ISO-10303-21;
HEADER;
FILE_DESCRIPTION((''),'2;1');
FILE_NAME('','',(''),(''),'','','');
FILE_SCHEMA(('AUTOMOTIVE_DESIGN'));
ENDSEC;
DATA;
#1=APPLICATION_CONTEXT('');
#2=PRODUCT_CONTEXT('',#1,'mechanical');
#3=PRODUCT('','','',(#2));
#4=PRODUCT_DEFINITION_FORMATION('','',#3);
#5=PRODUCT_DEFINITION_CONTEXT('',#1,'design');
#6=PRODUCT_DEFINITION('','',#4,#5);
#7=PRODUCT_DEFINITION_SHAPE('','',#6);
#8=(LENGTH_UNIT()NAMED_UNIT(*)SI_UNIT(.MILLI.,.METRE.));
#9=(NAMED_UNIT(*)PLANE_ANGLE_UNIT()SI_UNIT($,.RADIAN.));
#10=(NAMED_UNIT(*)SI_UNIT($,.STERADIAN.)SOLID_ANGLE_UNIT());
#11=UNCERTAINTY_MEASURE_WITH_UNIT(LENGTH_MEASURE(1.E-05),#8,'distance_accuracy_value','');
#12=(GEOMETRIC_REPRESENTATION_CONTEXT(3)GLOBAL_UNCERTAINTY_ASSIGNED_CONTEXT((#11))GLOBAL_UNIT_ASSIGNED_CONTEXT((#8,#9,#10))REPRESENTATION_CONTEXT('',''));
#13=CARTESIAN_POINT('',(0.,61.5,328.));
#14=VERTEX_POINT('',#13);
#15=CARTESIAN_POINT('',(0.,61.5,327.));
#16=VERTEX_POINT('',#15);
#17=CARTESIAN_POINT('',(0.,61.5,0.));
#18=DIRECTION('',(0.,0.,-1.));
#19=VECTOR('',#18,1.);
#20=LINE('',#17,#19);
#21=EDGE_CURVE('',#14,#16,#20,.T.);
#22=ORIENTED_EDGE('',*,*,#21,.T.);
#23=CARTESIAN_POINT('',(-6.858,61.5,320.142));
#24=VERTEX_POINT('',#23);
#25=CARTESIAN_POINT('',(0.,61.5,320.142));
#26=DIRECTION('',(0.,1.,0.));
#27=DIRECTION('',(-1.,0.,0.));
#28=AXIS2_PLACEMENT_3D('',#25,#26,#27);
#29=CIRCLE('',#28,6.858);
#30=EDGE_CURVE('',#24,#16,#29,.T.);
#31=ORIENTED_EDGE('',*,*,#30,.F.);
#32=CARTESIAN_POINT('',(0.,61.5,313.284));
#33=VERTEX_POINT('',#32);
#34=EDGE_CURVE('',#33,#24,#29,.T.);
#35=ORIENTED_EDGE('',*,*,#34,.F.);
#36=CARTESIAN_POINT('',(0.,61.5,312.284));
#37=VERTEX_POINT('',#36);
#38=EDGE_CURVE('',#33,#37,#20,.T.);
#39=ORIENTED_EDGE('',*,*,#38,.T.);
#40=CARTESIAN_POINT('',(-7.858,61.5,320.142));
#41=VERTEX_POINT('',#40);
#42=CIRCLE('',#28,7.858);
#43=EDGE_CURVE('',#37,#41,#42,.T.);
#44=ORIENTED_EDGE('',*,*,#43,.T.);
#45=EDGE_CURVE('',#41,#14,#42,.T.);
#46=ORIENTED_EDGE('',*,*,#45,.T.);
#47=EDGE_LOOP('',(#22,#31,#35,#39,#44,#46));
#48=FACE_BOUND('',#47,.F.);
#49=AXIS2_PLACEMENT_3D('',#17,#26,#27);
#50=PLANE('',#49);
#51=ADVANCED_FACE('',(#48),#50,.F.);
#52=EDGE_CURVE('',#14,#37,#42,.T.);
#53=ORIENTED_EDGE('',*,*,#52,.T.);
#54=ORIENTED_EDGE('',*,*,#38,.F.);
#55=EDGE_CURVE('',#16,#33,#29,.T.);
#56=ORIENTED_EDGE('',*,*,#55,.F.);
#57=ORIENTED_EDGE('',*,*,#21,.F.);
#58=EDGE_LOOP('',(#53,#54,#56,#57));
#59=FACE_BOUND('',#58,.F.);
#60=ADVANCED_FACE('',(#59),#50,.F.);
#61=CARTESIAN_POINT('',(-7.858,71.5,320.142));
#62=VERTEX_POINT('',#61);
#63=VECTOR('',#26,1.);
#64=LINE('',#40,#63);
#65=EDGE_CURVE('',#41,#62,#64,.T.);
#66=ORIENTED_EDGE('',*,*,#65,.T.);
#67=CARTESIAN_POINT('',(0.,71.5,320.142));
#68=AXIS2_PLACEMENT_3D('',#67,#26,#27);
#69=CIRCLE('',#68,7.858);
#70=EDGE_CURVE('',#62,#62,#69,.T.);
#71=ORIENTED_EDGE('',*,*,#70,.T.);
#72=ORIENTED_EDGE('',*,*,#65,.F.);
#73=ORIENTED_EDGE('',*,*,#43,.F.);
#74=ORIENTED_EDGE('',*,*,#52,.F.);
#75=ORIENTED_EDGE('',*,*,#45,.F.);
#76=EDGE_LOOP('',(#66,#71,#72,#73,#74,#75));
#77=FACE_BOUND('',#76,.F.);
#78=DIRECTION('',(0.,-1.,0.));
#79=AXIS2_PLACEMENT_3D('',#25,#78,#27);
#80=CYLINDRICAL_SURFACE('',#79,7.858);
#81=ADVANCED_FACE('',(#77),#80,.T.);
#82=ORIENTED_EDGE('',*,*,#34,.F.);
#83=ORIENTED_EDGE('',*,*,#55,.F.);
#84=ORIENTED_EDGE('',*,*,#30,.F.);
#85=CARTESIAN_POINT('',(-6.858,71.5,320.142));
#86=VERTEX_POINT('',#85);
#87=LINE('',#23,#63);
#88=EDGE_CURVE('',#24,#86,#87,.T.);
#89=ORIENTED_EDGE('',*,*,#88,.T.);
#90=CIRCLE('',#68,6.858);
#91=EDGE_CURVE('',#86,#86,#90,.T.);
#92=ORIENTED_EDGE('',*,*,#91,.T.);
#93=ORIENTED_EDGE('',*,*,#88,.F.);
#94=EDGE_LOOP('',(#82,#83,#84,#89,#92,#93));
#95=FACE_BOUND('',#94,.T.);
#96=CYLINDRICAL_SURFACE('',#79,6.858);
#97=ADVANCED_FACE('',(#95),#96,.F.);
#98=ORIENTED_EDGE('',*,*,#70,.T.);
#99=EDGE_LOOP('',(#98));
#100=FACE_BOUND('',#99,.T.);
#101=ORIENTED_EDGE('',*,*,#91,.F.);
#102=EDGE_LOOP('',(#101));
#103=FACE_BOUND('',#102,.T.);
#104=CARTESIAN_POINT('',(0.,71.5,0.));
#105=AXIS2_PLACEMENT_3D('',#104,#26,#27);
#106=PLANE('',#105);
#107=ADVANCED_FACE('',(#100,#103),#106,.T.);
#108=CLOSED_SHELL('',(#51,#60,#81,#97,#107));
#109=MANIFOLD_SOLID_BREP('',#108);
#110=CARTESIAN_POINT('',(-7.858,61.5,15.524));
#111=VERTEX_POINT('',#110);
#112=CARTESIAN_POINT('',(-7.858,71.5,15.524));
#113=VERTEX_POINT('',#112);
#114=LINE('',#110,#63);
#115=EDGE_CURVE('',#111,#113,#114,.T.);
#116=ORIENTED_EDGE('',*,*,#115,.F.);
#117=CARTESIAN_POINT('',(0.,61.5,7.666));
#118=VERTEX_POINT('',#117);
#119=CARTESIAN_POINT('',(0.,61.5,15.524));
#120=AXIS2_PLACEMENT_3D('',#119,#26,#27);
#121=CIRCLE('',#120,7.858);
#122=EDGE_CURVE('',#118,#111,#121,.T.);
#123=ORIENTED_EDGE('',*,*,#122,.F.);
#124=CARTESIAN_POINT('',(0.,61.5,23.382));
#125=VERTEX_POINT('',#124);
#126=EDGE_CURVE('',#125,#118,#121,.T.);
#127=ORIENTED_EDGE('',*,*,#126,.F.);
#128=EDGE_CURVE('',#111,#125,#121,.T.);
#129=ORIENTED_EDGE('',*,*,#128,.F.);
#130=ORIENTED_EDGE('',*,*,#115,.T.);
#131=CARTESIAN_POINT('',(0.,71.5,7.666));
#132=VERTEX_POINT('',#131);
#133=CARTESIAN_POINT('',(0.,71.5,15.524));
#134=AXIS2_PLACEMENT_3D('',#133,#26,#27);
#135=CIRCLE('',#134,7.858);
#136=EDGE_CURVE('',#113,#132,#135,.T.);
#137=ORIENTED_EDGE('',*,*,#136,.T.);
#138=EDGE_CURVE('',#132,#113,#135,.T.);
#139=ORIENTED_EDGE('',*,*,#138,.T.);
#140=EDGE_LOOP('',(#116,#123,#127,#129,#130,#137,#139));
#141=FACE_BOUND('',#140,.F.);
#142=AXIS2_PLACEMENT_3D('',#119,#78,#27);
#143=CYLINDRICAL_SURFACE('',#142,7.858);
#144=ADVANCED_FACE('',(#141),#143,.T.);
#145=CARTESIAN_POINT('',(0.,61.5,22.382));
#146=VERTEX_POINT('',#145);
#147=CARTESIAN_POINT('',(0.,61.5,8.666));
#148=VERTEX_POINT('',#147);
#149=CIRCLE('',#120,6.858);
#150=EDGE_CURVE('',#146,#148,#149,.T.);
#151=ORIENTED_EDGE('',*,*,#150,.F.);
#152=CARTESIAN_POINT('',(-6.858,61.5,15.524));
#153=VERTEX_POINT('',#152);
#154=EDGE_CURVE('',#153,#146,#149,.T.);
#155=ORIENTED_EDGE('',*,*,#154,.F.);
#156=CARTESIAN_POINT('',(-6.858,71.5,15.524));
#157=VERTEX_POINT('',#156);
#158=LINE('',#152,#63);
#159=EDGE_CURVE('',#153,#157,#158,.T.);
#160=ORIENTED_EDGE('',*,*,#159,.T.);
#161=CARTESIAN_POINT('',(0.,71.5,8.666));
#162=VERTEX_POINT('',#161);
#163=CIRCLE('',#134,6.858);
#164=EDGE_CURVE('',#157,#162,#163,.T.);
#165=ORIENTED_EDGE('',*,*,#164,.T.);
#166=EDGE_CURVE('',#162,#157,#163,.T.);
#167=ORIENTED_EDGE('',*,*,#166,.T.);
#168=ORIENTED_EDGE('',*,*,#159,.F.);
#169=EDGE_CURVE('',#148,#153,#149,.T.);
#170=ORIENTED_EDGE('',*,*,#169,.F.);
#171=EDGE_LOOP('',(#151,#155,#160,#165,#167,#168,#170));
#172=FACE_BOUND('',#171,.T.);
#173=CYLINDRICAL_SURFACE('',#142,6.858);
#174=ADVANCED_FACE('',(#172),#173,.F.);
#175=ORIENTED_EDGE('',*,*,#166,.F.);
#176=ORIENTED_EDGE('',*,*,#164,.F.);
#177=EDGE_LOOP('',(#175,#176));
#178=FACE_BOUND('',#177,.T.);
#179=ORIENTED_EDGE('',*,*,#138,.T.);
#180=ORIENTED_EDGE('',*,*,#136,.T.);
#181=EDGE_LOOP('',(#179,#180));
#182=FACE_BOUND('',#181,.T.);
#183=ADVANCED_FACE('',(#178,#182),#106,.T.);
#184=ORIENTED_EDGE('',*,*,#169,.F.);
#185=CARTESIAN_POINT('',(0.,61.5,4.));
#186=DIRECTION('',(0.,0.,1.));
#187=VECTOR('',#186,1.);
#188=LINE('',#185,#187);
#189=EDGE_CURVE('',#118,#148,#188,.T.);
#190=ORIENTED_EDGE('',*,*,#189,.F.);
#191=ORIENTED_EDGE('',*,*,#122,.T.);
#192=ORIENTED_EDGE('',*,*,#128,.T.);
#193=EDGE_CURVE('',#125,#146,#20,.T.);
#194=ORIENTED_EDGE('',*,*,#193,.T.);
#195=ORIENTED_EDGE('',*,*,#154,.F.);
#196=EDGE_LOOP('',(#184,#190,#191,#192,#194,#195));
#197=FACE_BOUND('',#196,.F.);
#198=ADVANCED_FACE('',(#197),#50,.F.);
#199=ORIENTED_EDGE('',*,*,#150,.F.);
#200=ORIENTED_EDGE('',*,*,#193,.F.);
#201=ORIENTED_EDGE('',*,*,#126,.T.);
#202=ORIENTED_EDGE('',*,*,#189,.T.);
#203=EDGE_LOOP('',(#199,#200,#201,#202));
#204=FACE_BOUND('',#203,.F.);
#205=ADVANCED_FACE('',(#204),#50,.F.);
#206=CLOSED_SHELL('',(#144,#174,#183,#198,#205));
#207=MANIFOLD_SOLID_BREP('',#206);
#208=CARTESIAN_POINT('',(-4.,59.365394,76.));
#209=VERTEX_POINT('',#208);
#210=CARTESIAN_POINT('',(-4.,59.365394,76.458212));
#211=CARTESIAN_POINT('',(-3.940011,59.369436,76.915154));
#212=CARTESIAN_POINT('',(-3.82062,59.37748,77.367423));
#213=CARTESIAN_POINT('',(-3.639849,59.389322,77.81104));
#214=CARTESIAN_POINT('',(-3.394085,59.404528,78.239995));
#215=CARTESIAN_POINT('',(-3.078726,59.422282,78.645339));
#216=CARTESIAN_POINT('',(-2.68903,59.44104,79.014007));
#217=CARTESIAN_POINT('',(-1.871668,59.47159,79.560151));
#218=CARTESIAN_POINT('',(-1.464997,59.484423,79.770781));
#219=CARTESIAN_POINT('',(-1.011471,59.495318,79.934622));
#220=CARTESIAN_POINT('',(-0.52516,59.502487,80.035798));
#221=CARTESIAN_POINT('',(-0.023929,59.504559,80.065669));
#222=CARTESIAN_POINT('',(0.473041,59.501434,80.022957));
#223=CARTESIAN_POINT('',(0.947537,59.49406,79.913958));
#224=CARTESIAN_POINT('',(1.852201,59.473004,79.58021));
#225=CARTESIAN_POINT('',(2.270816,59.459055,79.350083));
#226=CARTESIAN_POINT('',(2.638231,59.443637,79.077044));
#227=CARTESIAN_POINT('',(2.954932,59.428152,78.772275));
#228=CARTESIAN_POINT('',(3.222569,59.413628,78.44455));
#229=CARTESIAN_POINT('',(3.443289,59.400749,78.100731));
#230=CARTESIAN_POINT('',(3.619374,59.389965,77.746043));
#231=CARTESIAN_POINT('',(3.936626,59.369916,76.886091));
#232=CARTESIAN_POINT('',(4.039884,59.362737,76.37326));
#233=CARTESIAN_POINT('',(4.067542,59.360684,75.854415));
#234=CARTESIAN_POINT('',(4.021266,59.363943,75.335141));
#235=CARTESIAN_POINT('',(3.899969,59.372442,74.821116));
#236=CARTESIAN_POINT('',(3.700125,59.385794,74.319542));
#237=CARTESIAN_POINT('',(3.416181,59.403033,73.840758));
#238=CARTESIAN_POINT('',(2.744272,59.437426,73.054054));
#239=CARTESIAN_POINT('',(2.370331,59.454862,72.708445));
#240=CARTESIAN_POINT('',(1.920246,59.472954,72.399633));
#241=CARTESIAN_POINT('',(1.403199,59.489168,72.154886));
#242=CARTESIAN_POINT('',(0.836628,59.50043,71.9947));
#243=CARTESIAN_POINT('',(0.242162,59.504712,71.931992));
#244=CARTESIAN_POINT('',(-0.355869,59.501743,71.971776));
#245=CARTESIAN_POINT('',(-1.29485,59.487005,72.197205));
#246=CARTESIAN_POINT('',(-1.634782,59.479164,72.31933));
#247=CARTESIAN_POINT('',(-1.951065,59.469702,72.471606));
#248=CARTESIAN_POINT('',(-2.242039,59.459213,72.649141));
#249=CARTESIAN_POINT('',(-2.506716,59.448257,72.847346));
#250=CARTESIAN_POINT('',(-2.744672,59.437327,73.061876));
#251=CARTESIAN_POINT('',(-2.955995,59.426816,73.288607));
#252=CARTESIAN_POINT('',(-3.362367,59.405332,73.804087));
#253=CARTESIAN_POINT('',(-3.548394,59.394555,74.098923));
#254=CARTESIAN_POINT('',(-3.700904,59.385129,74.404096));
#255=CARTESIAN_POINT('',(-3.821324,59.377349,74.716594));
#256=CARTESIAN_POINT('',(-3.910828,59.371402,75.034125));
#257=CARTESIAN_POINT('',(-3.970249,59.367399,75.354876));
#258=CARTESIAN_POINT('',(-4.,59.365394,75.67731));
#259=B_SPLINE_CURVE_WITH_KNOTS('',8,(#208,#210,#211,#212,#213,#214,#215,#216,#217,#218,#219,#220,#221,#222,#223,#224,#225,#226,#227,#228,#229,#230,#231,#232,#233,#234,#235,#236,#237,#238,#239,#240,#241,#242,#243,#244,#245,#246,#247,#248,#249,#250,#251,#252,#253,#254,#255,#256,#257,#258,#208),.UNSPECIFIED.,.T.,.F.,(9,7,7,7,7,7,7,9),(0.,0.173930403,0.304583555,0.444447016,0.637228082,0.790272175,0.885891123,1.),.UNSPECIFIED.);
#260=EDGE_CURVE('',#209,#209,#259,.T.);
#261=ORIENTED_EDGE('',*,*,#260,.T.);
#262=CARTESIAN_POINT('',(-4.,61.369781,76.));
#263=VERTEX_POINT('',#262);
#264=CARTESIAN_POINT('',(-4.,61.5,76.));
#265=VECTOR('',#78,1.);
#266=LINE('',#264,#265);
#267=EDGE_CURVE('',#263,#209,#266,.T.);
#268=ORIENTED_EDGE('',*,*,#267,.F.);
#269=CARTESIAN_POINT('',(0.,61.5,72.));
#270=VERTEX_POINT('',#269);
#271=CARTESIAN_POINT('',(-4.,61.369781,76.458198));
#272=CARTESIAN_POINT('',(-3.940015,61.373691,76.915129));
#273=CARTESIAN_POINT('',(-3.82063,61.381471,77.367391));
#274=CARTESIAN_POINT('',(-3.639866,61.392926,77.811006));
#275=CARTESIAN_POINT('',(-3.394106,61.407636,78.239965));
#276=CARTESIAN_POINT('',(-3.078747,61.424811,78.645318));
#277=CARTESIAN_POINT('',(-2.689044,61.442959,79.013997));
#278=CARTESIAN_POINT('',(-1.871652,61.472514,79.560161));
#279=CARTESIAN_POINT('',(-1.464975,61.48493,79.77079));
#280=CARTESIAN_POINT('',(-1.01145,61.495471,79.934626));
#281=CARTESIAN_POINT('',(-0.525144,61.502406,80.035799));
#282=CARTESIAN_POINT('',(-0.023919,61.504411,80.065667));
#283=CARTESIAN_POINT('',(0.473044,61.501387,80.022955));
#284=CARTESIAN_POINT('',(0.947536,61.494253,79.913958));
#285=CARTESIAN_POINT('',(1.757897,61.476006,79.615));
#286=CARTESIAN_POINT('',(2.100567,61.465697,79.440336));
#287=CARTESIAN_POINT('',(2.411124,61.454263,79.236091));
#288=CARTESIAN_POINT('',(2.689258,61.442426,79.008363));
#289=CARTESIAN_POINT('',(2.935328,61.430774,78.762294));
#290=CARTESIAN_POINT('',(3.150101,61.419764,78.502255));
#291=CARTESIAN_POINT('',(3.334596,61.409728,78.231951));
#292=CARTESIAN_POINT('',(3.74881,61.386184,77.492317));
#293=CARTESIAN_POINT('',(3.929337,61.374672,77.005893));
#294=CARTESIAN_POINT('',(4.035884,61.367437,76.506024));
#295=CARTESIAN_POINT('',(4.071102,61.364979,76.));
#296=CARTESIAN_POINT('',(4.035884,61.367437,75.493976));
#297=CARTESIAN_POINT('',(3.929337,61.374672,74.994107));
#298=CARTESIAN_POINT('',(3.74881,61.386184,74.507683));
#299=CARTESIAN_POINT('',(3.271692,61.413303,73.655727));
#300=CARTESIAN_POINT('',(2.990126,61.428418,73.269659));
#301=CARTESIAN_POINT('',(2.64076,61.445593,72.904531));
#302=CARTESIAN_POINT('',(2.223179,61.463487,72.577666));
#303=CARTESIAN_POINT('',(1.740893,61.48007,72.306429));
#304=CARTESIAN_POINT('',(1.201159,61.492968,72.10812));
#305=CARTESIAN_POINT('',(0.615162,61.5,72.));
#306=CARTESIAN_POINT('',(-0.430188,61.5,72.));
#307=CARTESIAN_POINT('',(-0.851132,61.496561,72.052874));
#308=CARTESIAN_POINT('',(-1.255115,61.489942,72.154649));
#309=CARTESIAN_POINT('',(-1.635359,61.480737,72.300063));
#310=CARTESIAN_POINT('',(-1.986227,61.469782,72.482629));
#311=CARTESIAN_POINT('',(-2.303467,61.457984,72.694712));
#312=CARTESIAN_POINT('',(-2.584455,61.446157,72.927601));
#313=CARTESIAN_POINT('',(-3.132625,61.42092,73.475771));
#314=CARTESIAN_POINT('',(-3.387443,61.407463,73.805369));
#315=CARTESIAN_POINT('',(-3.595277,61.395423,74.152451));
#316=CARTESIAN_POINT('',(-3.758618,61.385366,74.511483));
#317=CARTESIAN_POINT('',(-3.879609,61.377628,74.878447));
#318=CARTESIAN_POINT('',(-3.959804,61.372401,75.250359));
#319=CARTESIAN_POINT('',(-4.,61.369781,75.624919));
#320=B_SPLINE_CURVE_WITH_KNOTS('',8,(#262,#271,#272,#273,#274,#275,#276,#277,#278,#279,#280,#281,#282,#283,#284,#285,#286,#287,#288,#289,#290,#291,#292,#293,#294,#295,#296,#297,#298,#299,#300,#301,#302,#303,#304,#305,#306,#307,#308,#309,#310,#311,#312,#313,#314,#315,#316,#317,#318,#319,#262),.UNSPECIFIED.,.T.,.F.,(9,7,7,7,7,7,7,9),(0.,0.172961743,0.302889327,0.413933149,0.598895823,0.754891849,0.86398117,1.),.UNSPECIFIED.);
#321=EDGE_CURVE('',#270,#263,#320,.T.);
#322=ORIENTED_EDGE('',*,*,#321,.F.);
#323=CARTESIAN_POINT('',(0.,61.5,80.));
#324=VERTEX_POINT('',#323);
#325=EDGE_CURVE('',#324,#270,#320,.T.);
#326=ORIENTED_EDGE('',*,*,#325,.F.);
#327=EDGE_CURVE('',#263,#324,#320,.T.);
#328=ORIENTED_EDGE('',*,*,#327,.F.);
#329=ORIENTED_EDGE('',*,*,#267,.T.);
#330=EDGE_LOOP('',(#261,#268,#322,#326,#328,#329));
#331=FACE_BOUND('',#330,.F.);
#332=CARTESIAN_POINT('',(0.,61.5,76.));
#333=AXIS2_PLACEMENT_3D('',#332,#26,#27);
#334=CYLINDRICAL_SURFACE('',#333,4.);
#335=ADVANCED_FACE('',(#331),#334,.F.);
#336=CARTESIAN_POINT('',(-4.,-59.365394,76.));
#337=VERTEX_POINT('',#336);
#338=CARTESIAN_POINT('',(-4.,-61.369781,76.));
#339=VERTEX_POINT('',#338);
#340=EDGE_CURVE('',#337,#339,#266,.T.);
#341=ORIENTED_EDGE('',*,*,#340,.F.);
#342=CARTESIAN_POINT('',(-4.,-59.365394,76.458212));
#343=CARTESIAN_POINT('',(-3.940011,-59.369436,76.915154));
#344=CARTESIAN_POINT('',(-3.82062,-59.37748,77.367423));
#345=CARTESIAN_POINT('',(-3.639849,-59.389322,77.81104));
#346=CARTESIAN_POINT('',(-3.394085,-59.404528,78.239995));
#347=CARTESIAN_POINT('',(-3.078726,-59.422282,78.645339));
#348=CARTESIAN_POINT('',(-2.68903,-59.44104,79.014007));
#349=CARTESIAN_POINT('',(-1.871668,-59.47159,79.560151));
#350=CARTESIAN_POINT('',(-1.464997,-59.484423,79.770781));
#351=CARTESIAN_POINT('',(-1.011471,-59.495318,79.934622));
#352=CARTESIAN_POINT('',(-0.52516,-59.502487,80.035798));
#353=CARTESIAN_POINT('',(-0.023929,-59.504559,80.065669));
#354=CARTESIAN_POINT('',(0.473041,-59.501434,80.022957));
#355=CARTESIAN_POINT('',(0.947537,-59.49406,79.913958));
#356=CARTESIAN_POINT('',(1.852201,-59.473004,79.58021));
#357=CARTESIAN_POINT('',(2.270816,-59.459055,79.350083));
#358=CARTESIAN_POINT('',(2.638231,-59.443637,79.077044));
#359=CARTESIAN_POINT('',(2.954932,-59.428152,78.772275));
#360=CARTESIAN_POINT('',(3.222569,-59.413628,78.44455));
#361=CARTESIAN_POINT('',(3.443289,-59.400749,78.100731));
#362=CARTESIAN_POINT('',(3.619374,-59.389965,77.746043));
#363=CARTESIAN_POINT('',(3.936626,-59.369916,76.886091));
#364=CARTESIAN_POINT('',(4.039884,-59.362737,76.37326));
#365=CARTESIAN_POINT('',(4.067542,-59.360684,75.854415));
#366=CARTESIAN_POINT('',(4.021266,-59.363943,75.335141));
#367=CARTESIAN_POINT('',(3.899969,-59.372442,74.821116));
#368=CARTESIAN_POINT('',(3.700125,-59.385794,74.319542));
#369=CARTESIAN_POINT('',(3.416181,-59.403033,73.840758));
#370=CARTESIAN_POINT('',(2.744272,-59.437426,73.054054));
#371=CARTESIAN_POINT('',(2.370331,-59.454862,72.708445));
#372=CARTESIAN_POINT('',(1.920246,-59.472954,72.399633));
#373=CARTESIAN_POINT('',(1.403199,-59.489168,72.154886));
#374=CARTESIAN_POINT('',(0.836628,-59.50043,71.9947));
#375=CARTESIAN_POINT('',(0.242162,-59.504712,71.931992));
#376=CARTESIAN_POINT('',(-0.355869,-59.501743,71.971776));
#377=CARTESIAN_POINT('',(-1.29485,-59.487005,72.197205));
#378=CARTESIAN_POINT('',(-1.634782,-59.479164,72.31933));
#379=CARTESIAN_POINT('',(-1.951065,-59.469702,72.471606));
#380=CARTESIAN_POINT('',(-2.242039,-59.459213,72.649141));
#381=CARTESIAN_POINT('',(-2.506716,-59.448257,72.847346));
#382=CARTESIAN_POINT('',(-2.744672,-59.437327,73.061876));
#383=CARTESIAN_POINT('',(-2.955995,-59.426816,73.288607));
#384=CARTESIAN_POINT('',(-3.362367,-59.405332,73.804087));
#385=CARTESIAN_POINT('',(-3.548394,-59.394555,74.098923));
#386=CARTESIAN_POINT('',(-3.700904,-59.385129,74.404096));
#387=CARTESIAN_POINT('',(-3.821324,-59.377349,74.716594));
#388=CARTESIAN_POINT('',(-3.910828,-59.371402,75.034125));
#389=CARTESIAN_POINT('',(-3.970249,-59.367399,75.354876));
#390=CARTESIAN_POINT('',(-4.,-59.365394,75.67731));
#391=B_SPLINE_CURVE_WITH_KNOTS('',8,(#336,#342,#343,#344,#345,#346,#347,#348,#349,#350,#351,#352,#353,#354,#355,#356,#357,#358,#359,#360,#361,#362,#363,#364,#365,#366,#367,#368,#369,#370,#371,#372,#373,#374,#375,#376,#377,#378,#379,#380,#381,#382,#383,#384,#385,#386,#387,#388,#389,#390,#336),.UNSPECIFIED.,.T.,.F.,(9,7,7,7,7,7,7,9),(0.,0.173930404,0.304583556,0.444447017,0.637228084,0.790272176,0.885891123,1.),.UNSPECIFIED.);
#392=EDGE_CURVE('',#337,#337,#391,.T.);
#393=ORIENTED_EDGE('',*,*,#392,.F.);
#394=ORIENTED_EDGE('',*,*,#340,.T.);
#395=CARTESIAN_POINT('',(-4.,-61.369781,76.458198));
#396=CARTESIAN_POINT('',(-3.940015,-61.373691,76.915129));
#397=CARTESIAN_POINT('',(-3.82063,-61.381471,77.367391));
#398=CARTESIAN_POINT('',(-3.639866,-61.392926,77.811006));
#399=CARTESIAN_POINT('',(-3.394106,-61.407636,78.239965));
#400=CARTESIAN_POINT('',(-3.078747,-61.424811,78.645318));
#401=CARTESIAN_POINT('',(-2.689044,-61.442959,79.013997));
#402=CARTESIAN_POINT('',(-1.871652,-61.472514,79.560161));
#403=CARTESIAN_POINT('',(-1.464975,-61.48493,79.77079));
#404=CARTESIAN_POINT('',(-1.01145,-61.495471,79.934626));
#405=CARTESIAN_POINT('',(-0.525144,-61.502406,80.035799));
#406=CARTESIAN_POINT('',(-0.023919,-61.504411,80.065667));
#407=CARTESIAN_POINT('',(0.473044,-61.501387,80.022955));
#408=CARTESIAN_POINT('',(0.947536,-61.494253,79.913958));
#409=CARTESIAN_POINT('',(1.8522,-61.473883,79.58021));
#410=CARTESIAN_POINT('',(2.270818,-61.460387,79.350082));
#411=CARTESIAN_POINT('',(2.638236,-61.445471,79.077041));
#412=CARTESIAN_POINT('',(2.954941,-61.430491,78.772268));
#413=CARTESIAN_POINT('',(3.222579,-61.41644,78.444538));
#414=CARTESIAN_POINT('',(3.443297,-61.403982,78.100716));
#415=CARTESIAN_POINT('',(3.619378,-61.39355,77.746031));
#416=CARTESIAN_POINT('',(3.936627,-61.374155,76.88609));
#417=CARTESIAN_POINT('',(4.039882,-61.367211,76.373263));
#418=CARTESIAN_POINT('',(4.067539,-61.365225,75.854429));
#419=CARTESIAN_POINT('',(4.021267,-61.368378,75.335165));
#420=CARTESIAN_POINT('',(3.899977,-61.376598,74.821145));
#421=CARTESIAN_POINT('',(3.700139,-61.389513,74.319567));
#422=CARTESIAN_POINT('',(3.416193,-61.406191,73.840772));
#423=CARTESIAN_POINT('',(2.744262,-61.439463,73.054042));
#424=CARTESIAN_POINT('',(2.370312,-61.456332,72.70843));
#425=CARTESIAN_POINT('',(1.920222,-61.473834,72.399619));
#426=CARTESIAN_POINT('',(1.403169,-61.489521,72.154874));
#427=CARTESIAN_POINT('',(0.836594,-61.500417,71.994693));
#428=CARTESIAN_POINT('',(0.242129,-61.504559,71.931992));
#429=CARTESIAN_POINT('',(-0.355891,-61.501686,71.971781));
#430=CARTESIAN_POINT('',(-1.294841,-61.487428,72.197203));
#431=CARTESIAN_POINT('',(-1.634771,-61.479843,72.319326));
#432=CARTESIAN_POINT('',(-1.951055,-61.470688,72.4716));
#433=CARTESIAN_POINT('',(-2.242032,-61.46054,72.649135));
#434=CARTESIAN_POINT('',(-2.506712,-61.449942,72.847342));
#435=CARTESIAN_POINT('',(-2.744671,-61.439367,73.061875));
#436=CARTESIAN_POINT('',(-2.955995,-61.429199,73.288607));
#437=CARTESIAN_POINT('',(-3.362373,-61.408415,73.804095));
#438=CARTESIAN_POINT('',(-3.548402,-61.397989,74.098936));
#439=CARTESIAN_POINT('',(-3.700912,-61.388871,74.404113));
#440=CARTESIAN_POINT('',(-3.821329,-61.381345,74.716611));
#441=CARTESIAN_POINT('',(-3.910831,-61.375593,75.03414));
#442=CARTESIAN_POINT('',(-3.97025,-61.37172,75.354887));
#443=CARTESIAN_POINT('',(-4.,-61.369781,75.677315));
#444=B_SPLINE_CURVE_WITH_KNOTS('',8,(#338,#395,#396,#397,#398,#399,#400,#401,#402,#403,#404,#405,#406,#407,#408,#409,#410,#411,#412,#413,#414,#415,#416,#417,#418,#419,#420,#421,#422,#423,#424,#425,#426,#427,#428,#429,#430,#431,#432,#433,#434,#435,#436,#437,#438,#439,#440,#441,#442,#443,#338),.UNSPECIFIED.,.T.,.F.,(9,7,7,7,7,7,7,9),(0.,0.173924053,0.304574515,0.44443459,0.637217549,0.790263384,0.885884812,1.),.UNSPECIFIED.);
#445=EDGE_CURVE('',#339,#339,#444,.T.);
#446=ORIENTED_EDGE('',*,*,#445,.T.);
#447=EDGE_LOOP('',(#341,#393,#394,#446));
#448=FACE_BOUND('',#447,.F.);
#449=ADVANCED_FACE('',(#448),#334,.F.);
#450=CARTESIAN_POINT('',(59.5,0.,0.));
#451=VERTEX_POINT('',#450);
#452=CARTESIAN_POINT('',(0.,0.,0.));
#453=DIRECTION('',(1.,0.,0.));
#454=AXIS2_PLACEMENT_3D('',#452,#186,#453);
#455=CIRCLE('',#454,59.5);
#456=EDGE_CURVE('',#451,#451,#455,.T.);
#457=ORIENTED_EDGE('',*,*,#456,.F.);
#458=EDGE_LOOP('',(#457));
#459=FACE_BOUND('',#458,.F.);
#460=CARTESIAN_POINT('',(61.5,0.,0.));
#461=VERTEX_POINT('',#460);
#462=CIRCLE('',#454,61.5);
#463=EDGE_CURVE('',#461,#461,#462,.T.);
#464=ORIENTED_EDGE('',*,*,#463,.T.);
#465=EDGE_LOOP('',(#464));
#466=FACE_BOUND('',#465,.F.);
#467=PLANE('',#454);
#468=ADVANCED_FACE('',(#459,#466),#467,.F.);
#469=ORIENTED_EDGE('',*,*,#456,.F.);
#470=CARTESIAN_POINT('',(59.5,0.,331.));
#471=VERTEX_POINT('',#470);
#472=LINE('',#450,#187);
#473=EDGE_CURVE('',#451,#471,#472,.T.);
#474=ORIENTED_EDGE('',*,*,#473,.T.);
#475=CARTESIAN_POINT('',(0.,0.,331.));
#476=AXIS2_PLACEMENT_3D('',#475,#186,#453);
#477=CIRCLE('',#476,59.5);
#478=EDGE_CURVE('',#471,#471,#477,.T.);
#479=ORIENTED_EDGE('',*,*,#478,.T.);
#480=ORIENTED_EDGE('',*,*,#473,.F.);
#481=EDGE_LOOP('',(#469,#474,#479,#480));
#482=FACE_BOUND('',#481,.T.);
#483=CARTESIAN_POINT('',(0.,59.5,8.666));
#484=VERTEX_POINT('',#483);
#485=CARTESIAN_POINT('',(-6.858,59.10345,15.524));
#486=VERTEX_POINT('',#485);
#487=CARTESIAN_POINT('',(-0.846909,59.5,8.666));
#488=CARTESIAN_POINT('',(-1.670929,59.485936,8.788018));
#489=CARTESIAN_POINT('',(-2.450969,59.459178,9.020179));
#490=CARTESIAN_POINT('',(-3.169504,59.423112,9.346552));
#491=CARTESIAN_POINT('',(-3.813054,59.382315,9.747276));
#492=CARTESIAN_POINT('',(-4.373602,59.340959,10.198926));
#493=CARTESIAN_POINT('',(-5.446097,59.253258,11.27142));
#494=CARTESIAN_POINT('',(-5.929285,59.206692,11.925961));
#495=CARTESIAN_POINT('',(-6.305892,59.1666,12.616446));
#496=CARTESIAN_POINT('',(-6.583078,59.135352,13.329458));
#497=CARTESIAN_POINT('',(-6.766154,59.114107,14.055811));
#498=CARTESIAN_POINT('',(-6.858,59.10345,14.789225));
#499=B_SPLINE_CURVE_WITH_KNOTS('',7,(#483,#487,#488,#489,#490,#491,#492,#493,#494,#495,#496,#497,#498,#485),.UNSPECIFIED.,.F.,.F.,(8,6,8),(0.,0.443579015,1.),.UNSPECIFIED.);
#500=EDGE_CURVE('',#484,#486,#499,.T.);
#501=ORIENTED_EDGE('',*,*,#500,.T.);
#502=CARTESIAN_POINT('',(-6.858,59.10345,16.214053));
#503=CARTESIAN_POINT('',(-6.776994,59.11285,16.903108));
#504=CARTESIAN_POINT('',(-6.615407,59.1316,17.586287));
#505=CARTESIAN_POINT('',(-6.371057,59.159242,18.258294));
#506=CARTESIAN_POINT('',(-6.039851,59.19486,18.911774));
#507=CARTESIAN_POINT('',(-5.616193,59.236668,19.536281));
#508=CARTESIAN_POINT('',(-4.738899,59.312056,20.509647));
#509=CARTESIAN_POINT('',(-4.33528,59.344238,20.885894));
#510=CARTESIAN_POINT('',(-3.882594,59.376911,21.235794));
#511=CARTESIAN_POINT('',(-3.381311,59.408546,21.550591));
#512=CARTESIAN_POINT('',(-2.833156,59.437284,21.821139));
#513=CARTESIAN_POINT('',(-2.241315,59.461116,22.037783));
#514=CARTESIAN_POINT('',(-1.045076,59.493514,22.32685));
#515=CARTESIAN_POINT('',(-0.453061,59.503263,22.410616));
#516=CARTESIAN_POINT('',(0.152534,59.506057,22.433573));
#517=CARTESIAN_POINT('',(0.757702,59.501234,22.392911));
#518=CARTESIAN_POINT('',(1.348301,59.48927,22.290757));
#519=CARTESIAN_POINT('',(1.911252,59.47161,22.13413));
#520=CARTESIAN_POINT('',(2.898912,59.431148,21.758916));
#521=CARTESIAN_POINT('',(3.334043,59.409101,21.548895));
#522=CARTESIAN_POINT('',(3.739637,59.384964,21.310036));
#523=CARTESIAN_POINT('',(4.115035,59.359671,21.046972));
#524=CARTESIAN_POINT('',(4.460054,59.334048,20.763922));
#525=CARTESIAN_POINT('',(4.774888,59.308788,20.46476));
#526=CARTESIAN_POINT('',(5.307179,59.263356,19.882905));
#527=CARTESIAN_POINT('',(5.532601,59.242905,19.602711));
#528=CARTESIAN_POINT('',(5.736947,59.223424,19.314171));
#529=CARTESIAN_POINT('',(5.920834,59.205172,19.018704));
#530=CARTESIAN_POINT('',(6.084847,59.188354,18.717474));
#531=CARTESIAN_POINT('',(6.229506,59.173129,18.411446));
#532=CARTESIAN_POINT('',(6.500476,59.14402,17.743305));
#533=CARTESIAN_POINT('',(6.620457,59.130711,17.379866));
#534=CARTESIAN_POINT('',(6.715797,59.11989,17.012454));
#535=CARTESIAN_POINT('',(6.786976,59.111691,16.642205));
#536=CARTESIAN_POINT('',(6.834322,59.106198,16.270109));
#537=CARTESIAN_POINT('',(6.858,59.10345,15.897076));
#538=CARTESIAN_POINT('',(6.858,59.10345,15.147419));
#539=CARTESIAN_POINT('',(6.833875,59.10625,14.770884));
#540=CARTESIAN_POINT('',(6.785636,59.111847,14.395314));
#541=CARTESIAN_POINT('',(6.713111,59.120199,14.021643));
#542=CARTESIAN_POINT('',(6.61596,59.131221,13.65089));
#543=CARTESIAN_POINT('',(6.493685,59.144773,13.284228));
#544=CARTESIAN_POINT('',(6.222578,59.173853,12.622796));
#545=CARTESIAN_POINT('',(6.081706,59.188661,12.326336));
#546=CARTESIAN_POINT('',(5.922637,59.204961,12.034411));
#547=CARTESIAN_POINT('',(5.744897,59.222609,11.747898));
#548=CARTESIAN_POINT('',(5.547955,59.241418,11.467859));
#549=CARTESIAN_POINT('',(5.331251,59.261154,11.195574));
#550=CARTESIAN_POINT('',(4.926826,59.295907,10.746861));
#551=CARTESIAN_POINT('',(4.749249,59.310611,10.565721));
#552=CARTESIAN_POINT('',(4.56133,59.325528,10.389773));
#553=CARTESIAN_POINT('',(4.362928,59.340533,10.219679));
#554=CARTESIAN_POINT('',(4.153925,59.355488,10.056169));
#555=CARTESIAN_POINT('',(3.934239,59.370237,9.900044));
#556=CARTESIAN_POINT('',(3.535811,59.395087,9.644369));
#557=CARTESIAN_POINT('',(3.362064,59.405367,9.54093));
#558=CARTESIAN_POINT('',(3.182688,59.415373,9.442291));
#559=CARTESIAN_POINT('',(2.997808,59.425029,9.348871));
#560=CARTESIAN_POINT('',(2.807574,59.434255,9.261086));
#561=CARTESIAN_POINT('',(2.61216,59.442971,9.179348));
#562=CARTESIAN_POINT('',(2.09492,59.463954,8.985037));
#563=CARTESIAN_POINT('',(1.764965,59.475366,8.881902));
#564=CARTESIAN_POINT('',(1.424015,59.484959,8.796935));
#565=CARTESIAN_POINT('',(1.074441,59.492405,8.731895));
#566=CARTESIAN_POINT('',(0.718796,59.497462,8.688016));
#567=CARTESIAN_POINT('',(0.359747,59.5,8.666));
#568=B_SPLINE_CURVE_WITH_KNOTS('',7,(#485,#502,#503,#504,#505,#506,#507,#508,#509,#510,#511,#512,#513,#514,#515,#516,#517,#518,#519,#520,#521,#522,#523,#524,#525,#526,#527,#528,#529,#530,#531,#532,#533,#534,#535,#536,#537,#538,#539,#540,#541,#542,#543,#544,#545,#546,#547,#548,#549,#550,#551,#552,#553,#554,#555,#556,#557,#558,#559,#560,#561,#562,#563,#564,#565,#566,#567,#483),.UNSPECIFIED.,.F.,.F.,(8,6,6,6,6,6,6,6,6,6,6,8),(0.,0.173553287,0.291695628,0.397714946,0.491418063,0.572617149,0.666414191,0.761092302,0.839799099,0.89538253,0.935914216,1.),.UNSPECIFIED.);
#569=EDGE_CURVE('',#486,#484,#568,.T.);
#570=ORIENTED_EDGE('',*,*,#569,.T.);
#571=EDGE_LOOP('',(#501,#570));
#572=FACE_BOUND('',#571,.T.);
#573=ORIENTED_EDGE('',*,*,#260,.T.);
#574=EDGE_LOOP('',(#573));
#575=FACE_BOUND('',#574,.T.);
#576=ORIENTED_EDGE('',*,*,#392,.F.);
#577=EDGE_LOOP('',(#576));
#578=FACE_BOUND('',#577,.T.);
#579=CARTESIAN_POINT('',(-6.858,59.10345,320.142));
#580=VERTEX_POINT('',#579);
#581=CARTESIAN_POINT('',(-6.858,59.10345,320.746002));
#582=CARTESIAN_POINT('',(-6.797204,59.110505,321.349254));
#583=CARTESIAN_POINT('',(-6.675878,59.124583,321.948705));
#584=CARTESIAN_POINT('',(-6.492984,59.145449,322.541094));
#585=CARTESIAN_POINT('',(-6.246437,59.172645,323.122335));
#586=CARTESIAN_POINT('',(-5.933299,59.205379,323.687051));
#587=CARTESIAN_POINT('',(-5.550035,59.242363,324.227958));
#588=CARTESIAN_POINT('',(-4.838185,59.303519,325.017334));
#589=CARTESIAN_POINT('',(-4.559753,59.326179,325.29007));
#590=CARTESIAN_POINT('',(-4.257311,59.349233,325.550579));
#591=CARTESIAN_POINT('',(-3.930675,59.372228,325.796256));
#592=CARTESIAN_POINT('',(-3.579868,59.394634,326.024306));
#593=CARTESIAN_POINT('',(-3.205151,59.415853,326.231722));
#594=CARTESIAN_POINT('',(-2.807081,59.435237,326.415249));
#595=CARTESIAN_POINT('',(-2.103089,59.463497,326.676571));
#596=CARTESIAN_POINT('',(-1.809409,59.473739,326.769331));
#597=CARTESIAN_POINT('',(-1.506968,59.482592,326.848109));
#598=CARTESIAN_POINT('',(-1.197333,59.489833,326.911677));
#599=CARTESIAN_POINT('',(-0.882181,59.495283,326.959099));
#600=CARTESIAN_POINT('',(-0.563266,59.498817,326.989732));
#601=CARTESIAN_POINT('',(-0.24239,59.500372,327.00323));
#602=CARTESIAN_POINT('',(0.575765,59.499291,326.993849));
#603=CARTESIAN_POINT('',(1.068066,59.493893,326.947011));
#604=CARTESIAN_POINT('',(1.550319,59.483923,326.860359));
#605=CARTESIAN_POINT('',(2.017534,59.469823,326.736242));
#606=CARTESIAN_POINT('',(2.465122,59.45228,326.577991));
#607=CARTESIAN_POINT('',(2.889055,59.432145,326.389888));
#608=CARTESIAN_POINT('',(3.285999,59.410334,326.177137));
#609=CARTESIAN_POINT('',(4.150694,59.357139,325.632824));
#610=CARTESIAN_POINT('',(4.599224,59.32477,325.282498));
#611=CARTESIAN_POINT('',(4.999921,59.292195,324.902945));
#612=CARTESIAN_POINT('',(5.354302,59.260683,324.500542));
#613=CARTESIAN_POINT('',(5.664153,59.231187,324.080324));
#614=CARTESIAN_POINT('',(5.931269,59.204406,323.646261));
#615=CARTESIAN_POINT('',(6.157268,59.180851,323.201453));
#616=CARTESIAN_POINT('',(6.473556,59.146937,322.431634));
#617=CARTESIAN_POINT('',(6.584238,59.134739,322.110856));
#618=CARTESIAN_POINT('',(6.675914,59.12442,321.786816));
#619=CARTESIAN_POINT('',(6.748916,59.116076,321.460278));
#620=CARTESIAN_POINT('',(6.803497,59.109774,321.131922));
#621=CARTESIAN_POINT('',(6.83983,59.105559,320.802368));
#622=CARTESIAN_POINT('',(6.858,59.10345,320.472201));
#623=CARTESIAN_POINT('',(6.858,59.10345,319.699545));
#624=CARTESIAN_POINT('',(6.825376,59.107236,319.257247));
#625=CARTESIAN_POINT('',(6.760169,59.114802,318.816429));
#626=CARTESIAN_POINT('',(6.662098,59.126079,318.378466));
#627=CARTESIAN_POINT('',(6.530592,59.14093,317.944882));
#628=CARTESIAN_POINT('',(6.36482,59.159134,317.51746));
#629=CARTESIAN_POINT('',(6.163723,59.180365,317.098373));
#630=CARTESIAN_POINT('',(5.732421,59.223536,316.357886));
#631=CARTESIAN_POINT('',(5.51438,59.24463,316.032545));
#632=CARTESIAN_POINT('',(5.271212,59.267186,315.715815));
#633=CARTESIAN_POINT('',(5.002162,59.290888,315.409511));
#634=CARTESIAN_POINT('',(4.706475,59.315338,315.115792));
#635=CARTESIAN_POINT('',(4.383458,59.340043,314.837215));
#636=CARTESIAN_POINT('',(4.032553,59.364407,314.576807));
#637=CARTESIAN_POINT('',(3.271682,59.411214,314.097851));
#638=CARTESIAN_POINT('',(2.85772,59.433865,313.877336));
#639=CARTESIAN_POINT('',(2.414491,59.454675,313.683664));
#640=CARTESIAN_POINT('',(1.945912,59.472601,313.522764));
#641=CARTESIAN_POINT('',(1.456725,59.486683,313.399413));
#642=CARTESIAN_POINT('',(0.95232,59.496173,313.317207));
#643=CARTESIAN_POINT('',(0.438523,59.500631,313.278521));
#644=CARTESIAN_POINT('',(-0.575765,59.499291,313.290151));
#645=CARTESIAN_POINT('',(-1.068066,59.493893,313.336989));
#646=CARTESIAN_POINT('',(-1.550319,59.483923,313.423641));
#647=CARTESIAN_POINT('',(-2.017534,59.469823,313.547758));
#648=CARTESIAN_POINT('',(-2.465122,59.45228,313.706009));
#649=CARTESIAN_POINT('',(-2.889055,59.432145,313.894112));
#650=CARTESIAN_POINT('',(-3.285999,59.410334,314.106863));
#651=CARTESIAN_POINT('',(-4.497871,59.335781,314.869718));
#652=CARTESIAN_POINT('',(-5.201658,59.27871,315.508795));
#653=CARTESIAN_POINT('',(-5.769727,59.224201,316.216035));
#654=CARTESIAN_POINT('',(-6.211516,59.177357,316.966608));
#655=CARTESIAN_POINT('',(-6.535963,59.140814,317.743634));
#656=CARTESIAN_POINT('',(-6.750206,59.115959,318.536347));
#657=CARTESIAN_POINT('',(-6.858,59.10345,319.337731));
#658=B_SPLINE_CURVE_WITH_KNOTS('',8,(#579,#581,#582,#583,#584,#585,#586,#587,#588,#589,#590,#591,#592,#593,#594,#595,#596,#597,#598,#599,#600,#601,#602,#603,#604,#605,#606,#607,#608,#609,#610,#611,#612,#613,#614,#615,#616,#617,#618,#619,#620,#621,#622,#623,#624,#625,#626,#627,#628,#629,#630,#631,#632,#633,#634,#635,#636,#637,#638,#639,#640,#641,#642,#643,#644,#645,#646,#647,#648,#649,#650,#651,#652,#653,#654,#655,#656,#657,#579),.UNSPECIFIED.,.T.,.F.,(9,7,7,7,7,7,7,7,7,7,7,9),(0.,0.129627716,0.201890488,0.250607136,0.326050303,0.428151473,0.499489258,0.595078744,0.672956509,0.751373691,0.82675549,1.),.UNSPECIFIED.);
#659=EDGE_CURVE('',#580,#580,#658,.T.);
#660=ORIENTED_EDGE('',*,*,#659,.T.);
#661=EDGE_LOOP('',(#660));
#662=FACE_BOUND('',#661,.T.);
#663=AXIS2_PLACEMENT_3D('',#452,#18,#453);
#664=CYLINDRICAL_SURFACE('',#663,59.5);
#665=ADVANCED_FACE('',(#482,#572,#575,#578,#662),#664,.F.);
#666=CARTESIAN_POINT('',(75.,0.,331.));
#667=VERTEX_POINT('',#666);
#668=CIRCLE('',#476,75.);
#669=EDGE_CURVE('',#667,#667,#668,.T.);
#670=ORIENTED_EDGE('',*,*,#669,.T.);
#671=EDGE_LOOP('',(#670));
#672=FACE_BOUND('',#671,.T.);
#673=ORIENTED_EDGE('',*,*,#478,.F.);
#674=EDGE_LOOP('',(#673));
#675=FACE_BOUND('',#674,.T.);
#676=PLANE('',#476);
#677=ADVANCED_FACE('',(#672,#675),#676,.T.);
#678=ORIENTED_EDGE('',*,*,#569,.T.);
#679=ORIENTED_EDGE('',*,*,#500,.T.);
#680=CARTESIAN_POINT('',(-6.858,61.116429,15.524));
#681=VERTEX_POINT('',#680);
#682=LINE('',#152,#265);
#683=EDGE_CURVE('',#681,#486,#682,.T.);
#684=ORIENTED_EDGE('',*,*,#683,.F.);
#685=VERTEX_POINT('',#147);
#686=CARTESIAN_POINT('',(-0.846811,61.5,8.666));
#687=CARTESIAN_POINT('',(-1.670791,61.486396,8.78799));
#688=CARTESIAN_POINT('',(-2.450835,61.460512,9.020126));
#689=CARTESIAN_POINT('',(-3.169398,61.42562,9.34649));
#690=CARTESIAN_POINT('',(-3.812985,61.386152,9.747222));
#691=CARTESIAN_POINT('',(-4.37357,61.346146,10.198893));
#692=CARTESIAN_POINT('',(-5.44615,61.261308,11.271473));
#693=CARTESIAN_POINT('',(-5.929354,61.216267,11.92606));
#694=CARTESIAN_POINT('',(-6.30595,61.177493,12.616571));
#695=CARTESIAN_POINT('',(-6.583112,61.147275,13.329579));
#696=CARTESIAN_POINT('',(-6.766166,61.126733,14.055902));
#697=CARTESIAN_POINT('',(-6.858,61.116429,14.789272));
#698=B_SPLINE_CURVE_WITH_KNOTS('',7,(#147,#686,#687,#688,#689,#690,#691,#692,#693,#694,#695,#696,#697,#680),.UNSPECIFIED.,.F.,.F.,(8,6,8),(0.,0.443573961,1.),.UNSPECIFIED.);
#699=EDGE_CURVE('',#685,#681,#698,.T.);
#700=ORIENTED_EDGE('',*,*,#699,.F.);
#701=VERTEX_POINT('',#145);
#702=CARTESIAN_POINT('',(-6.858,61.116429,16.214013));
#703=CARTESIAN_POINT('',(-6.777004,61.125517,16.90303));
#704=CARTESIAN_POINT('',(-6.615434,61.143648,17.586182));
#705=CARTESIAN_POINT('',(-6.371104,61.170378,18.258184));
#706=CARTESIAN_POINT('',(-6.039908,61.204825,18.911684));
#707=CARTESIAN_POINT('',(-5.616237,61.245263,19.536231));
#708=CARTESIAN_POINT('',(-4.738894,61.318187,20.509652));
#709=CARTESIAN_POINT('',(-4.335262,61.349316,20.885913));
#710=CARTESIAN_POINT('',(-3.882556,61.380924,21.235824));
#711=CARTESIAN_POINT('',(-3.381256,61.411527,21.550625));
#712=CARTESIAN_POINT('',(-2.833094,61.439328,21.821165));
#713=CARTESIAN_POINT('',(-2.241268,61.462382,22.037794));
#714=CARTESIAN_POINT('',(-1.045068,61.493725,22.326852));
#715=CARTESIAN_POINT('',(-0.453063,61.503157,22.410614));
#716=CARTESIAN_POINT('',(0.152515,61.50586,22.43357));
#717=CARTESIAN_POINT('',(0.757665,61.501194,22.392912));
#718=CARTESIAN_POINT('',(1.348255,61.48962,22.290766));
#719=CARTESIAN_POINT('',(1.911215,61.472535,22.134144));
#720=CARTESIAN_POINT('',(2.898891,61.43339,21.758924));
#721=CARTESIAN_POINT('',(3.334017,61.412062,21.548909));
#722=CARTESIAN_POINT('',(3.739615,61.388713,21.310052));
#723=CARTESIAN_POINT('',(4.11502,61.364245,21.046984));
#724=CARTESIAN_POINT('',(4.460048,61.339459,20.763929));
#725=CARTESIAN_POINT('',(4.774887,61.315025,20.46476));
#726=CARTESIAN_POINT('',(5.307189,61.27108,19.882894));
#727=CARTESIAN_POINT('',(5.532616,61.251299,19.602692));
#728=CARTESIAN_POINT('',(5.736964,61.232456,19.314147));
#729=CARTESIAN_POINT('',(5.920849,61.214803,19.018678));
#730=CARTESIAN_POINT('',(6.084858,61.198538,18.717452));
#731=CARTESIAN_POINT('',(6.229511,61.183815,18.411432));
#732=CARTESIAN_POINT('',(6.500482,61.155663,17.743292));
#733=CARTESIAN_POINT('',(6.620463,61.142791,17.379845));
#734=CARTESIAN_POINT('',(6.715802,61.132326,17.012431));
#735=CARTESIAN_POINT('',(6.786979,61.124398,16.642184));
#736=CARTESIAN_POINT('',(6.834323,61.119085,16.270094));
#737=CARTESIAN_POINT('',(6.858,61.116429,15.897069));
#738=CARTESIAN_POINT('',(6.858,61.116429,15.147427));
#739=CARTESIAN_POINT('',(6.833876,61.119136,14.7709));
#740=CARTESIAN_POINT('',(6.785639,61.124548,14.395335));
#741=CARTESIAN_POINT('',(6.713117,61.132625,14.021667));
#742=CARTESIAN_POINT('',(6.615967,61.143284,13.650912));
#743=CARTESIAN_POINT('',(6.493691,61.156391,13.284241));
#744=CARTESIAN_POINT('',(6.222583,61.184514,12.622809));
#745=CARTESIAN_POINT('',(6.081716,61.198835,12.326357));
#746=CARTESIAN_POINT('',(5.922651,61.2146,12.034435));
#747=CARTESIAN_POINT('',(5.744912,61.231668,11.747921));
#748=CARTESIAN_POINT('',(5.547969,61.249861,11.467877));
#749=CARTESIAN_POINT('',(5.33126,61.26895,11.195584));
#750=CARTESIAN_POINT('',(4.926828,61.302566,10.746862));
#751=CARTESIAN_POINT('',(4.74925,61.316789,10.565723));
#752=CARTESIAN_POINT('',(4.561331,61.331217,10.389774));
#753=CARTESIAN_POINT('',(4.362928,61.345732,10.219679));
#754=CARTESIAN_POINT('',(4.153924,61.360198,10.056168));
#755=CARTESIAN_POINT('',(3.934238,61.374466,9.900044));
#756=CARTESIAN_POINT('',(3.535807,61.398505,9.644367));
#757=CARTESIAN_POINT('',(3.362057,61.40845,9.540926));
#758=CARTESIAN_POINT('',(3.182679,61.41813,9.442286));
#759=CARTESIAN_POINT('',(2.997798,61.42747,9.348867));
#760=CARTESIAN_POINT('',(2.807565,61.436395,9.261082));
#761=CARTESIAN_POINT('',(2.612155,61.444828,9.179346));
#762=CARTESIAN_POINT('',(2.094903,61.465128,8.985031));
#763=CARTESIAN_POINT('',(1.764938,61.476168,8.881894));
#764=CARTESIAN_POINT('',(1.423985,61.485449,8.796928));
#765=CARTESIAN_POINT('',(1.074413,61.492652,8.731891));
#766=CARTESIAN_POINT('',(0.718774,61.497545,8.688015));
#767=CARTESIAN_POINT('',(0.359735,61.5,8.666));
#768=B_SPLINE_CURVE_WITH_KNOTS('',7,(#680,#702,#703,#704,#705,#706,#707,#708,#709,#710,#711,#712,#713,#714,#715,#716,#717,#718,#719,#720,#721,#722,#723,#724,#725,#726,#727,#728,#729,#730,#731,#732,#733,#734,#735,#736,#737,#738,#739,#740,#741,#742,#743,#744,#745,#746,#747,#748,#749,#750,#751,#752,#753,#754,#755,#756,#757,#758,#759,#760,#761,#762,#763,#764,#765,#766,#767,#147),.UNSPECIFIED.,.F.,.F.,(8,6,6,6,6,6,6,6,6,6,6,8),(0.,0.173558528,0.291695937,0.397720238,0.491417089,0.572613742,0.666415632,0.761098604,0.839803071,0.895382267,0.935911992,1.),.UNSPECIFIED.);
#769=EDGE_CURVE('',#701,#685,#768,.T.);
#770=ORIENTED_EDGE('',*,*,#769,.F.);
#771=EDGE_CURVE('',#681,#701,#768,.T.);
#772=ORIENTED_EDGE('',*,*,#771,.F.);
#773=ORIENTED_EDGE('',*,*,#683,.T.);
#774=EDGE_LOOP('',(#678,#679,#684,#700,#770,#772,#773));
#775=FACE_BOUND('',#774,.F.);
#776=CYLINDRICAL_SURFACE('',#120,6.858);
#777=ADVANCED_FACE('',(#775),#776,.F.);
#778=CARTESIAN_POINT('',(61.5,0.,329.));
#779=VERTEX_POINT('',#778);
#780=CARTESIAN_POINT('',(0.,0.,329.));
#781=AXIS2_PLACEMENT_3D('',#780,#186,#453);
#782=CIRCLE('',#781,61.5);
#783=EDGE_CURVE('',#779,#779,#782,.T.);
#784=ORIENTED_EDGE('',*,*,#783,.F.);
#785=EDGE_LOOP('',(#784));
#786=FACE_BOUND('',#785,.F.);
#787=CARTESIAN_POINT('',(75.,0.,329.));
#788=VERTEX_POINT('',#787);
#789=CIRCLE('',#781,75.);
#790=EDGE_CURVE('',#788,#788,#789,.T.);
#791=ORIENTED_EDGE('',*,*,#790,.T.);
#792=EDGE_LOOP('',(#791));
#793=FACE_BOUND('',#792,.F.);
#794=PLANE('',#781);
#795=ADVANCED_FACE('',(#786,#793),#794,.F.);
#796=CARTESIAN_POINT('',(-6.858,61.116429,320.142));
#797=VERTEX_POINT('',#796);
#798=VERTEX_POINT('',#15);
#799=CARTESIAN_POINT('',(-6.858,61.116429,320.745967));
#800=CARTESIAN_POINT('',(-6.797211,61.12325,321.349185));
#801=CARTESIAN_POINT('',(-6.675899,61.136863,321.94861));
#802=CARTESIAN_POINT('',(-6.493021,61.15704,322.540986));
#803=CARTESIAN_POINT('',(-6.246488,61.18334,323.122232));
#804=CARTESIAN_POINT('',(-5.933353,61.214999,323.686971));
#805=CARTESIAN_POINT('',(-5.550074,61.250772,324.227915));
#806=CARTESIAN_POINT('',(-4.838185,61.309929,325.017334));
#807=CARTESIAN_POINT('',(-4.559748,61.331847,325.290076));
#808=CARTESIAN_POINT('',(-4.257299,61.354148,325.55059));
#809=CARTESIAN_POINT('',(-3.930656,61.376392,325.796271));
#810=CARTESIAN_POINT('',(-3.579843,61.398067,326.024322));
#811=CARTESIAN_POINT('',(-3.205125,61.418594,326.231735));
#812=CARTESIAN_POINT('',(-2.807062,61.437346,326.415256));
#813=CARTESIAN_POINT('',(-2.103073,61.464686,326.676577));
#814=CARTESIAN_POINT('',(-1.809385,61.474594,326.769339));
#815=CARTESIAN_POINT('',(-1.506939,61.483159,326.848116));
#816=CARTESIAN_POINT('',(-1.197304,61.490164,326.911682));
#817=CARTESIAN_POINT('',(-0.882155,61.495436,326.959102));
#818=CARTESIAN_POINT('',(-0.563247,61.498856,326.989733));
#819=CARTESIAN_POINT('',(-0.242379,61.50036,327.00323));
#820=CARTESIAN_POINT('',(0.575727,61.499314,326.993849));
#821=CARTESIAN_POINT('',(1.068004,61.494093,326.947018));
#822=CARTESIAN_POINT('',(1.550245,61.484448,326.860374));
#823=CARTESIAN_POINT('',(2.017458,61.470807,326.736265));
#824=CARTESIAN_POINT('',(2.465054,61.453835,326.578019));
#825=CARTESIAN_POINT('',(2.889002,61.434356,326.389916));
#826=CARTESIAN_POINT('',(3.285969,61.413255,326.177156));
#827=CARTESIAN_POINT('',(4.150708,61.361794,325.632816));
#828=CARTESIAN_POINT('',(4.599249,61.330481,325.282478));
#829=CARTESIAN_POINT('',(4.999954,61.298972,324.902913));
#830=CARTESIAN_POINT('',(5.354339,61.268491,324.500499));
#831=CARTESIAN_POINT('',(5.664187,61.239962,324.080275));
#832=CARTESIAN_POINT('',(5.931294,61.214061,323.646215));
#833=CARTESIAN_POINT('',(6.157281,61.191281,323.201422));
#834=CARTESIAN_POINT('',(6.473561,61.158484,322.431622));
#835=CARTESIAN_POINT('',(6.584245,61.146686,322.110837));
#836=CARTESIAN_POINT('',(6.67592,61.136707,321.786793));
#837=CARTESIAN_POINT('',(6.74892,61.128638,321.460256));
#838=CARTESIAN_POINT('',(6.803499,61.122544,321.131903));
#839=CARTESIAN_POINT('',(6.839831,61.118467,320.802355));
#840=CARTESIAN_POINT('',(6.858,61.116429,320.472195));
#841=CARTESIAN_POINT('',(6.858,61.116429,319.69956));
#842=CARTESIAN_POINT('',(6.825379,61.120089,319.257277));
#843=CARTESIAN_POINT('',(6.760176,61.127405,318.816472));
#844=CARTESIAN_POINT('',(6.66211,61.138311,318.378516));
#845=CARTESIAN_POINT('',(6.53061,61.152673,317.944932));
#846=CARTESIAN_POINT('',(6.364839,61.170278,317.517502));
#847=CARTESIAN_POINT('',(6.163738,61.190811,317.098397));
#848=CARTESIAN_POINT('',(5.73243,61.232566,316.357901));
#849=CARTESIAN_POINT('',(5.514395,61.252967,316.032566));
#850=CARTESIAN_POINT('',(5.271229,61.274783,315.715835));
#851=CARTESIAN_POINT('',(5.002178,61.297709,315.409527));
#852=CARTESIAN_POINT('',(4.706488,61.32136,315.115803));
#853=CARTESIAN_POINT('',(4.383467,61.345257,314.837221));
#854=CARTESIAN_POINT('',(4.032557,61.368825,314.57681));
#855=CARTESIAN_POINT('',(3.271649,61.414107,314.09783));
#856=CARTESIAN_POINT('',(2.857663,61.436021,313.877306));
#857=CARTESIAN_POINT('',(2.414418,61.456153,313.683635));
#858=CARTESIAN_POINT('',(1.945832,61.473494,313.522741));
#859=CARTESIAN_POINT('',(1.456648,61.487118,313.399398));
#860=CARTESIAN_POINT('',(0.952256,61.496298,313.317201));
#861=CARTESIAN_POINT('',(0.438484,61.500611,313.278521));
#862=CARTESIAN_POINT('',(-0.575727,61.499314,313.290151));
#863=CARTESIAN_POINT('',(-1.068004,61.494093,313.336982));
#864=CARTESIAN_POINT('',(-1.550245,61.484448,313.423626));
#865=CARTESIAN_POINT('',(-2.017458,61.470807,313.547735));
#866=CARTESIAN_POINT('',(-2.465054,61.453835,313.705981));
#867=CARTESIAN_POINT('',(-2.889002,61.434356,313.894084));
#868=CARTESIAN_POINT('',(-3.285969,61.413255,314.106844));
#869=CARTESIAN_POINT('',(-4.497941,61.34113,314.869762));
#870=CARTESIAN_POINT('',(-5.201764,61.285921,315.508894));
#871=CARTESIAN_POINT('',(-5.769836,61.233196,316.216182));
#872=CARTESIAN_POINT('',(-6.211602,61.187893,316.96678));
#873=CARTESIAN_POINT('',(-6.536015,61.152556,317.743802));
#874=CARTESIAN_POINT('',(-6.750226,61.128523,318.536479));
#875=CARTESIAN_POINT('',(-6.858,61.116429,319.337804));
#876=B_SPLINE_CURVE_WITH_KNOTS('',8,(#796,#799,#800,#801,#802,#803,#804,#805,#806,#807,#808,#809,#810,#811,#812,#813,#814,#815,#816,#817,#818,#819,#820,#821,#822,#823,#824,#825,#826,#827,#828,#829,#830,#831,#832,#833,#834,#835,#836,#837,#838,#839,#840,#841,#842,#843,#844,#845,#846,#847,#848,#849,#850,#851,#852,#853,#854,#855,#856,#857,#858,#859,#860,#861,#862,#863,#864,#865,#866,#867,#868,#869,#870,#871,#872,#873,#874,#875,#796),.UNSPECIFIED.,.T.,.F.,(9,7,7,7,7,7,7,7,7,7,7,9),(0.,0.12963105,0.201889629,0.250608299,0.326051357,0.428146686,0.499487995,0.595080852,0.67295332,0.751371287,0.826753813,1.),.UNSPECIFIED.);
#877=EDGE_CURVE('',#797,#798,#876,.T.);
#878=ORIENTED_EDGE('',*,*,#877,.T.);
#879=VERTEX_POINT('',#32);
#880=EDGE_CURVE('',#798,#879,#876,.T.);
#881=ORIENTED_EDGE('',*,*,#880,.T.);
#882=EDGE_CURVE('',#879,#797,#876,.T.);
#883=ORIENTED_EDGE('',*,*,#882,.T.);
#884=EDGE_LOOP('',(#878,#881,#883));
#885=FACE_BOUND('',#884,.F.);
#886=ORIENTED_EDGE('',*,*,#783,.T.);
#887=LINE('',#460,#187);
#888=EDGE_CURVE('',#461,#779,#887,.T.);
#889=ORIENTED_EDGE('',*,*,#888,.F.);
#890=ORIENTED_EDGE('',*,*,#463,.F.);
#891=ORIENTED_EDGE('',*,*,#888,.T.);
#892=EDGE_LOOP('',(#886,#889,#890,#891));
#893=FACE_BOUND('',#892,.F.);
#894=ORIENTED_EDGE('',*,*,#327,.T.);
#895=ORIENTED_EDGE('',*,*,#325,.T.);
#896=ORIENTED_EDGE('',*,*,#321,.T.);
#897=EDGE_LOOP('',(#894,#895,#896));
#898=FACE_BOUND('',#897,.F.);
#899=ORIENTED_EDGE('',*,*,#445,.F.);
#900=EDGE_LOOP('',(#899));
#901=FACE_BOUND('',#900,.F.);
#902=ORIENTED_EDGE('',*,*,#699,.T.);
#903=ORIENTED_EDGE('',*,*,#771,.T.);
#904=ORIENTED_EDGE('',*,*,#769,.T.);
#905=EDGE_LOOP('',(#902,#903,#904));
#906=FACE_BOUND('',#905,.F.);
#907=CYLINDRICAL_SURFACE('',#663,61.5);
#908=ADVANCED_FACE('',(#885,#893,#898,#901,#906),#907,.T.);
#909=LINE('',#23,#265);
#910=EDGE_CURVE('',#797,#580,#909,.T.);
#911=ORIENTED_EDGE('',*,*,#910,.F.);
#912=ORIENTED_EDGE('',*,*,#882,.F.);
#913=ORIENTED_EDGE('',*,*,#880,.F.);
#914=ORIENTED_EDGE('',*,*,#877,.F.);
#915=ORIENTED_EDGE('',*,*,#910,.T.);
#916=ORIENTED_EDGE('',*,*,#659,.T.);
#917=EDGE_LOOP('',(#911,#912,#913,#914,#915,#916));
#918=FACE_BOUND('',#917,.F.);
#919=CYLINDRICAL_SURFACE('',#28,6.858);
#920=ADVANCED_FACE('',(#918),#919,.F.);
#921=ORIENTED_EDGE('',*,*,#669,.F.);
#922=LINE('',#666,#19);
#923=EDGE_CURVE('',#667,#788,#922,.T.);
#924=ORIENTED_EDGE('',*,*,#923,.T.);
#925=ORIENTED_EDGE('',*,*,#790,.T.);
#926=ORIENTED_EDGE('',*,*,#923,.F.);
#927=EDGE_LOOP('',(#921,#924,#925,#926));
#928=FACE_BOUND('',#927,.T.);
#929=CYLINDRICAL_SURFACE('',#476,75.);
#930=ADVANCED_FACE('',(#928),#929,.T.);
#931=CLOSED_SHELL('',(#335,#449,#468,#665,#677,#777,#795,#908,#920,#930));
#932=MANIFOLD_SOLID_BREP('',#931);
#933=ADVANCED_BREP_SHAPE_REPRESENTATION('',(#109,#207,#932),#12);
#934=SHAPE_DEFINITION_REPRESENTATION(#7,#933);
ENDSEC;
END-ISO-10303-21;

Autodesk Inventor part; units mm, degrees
ref_plane "YZ Plane" through (0, 0, 0) normal (1, 0, 0) x (0, 1, 0)
ref_plane "XY Plane" through (0, 0, 0) normal (0, 0, 1) x (1, 0, 0)
sketch "Sketch1" plane through (0, 0, 0) normal (0, 0, 1) x (1, 0, 0)
  circle A0 centre (0, 0) radius 59.5
  circle A1 centre (0, 0) radius 61.5
  dimension "d0" = 119
  dimension "d1" = 123
extrude "Extrusion1" add sketch "Sketch1" along normal blind 331
ref_plane "Work Plane1" through (0, 61.5, 0) normal (0, 1, 0) x (-1, 0, 0)
sketch "Sketch2" plane through (0, 61.5, 0) normal (0, 1, 0) x (-1, 0, 0)
  line L0 (61.5, 0) -> (-61.5, 0) projected
  line L1 (0, 0) -> (0, 4)
  line L2 (0, 4) -> (0, 8.666)
  circle A0 centre (0, 15.524) radius 6.858
  circle A1 centre (0, 15.524) radius 7.858
  dimension "d6" = 4
  dimension "d7" = 4.666
  dimension "d8" = 13.716
  dimension "d9" = 6.858
  dimension "d33" = 15.716
extrude "Extrusion2" cut sketch "Sketch2" against normal blind 23 contours A0
sketch "Sketch3" plane through (0, 61.5, 0) normal (0, 1, 0) x (-1, 0, 0)
  line L0 (0, 0) -> (0, 331) construction
  line L1 (-59.5, 331) -> (59.5, 331) projected
  line L2 (0, 331) -> (0, 323) construction
  circle A0 centre (0, 320.142) radius 6.858
  circle A1 centre (0, 320.142) radius 7.858
  point P0 (0, 327)
  dimension "d12" = 8
  dimension "d13" = 13.716
  dimension "d14" = 6.858
  dimension "d36" = 15.716
extrude "Extrusion3" cut sketch "Sketch3" against normal blind 3 contours A0
thread "Thread1" size "M14x1.25" class "6H" standard "ANSI Metric M Profile" full length
thread "Thread2" size "M14x1.25" class "6H" standard "ANSI Metric M Profile" full length
sketch "Sketch4" plane through (0, 61.5, 0) normal (0, 1, 0) x (-1, 0, 0)
  point P0 (0, 0)
sketch "Sketch5" plane through (0, 61.5, 0) normal (0, 1, 0) x (-1, 0, 0)
  line L0 (0, 0) -> (0, 76) construction
  circle A0 centre (0, 76) radius 4
  dimension "d21" = 76
  dimension "d22" = 8
extrude "Extrusion4" cut sketch "Sketch5" against normal through all
thread "Thread3" size "M8x1.25" class "6H" standard "ANSI Metric M Profile" full length
thread "Thread4" size "M8x1.25" class "6H" standard "ANSI Metric M Profile" full length
sketch "Sketch6" plane through (0, 0, 331) normal (0, 0, 1) x (1, 0, 0)
  circle A0 centre (0, 0) radius 75
  circle A1 centre (0, 0) radius 61.5
  dimension "d29" = 150
  dimension "d30" = 123
extrude "Extrusion5" add sketch "Sketch6" against normal blind 2
extrude "Extrusion6" add sketch "Sketch2" along normal blind 10
extrude "Extrusion7" add sketch "Sketch3" along normal blind 10
properties part number "stainless steel outer wall" material "Aluminum 6061"
